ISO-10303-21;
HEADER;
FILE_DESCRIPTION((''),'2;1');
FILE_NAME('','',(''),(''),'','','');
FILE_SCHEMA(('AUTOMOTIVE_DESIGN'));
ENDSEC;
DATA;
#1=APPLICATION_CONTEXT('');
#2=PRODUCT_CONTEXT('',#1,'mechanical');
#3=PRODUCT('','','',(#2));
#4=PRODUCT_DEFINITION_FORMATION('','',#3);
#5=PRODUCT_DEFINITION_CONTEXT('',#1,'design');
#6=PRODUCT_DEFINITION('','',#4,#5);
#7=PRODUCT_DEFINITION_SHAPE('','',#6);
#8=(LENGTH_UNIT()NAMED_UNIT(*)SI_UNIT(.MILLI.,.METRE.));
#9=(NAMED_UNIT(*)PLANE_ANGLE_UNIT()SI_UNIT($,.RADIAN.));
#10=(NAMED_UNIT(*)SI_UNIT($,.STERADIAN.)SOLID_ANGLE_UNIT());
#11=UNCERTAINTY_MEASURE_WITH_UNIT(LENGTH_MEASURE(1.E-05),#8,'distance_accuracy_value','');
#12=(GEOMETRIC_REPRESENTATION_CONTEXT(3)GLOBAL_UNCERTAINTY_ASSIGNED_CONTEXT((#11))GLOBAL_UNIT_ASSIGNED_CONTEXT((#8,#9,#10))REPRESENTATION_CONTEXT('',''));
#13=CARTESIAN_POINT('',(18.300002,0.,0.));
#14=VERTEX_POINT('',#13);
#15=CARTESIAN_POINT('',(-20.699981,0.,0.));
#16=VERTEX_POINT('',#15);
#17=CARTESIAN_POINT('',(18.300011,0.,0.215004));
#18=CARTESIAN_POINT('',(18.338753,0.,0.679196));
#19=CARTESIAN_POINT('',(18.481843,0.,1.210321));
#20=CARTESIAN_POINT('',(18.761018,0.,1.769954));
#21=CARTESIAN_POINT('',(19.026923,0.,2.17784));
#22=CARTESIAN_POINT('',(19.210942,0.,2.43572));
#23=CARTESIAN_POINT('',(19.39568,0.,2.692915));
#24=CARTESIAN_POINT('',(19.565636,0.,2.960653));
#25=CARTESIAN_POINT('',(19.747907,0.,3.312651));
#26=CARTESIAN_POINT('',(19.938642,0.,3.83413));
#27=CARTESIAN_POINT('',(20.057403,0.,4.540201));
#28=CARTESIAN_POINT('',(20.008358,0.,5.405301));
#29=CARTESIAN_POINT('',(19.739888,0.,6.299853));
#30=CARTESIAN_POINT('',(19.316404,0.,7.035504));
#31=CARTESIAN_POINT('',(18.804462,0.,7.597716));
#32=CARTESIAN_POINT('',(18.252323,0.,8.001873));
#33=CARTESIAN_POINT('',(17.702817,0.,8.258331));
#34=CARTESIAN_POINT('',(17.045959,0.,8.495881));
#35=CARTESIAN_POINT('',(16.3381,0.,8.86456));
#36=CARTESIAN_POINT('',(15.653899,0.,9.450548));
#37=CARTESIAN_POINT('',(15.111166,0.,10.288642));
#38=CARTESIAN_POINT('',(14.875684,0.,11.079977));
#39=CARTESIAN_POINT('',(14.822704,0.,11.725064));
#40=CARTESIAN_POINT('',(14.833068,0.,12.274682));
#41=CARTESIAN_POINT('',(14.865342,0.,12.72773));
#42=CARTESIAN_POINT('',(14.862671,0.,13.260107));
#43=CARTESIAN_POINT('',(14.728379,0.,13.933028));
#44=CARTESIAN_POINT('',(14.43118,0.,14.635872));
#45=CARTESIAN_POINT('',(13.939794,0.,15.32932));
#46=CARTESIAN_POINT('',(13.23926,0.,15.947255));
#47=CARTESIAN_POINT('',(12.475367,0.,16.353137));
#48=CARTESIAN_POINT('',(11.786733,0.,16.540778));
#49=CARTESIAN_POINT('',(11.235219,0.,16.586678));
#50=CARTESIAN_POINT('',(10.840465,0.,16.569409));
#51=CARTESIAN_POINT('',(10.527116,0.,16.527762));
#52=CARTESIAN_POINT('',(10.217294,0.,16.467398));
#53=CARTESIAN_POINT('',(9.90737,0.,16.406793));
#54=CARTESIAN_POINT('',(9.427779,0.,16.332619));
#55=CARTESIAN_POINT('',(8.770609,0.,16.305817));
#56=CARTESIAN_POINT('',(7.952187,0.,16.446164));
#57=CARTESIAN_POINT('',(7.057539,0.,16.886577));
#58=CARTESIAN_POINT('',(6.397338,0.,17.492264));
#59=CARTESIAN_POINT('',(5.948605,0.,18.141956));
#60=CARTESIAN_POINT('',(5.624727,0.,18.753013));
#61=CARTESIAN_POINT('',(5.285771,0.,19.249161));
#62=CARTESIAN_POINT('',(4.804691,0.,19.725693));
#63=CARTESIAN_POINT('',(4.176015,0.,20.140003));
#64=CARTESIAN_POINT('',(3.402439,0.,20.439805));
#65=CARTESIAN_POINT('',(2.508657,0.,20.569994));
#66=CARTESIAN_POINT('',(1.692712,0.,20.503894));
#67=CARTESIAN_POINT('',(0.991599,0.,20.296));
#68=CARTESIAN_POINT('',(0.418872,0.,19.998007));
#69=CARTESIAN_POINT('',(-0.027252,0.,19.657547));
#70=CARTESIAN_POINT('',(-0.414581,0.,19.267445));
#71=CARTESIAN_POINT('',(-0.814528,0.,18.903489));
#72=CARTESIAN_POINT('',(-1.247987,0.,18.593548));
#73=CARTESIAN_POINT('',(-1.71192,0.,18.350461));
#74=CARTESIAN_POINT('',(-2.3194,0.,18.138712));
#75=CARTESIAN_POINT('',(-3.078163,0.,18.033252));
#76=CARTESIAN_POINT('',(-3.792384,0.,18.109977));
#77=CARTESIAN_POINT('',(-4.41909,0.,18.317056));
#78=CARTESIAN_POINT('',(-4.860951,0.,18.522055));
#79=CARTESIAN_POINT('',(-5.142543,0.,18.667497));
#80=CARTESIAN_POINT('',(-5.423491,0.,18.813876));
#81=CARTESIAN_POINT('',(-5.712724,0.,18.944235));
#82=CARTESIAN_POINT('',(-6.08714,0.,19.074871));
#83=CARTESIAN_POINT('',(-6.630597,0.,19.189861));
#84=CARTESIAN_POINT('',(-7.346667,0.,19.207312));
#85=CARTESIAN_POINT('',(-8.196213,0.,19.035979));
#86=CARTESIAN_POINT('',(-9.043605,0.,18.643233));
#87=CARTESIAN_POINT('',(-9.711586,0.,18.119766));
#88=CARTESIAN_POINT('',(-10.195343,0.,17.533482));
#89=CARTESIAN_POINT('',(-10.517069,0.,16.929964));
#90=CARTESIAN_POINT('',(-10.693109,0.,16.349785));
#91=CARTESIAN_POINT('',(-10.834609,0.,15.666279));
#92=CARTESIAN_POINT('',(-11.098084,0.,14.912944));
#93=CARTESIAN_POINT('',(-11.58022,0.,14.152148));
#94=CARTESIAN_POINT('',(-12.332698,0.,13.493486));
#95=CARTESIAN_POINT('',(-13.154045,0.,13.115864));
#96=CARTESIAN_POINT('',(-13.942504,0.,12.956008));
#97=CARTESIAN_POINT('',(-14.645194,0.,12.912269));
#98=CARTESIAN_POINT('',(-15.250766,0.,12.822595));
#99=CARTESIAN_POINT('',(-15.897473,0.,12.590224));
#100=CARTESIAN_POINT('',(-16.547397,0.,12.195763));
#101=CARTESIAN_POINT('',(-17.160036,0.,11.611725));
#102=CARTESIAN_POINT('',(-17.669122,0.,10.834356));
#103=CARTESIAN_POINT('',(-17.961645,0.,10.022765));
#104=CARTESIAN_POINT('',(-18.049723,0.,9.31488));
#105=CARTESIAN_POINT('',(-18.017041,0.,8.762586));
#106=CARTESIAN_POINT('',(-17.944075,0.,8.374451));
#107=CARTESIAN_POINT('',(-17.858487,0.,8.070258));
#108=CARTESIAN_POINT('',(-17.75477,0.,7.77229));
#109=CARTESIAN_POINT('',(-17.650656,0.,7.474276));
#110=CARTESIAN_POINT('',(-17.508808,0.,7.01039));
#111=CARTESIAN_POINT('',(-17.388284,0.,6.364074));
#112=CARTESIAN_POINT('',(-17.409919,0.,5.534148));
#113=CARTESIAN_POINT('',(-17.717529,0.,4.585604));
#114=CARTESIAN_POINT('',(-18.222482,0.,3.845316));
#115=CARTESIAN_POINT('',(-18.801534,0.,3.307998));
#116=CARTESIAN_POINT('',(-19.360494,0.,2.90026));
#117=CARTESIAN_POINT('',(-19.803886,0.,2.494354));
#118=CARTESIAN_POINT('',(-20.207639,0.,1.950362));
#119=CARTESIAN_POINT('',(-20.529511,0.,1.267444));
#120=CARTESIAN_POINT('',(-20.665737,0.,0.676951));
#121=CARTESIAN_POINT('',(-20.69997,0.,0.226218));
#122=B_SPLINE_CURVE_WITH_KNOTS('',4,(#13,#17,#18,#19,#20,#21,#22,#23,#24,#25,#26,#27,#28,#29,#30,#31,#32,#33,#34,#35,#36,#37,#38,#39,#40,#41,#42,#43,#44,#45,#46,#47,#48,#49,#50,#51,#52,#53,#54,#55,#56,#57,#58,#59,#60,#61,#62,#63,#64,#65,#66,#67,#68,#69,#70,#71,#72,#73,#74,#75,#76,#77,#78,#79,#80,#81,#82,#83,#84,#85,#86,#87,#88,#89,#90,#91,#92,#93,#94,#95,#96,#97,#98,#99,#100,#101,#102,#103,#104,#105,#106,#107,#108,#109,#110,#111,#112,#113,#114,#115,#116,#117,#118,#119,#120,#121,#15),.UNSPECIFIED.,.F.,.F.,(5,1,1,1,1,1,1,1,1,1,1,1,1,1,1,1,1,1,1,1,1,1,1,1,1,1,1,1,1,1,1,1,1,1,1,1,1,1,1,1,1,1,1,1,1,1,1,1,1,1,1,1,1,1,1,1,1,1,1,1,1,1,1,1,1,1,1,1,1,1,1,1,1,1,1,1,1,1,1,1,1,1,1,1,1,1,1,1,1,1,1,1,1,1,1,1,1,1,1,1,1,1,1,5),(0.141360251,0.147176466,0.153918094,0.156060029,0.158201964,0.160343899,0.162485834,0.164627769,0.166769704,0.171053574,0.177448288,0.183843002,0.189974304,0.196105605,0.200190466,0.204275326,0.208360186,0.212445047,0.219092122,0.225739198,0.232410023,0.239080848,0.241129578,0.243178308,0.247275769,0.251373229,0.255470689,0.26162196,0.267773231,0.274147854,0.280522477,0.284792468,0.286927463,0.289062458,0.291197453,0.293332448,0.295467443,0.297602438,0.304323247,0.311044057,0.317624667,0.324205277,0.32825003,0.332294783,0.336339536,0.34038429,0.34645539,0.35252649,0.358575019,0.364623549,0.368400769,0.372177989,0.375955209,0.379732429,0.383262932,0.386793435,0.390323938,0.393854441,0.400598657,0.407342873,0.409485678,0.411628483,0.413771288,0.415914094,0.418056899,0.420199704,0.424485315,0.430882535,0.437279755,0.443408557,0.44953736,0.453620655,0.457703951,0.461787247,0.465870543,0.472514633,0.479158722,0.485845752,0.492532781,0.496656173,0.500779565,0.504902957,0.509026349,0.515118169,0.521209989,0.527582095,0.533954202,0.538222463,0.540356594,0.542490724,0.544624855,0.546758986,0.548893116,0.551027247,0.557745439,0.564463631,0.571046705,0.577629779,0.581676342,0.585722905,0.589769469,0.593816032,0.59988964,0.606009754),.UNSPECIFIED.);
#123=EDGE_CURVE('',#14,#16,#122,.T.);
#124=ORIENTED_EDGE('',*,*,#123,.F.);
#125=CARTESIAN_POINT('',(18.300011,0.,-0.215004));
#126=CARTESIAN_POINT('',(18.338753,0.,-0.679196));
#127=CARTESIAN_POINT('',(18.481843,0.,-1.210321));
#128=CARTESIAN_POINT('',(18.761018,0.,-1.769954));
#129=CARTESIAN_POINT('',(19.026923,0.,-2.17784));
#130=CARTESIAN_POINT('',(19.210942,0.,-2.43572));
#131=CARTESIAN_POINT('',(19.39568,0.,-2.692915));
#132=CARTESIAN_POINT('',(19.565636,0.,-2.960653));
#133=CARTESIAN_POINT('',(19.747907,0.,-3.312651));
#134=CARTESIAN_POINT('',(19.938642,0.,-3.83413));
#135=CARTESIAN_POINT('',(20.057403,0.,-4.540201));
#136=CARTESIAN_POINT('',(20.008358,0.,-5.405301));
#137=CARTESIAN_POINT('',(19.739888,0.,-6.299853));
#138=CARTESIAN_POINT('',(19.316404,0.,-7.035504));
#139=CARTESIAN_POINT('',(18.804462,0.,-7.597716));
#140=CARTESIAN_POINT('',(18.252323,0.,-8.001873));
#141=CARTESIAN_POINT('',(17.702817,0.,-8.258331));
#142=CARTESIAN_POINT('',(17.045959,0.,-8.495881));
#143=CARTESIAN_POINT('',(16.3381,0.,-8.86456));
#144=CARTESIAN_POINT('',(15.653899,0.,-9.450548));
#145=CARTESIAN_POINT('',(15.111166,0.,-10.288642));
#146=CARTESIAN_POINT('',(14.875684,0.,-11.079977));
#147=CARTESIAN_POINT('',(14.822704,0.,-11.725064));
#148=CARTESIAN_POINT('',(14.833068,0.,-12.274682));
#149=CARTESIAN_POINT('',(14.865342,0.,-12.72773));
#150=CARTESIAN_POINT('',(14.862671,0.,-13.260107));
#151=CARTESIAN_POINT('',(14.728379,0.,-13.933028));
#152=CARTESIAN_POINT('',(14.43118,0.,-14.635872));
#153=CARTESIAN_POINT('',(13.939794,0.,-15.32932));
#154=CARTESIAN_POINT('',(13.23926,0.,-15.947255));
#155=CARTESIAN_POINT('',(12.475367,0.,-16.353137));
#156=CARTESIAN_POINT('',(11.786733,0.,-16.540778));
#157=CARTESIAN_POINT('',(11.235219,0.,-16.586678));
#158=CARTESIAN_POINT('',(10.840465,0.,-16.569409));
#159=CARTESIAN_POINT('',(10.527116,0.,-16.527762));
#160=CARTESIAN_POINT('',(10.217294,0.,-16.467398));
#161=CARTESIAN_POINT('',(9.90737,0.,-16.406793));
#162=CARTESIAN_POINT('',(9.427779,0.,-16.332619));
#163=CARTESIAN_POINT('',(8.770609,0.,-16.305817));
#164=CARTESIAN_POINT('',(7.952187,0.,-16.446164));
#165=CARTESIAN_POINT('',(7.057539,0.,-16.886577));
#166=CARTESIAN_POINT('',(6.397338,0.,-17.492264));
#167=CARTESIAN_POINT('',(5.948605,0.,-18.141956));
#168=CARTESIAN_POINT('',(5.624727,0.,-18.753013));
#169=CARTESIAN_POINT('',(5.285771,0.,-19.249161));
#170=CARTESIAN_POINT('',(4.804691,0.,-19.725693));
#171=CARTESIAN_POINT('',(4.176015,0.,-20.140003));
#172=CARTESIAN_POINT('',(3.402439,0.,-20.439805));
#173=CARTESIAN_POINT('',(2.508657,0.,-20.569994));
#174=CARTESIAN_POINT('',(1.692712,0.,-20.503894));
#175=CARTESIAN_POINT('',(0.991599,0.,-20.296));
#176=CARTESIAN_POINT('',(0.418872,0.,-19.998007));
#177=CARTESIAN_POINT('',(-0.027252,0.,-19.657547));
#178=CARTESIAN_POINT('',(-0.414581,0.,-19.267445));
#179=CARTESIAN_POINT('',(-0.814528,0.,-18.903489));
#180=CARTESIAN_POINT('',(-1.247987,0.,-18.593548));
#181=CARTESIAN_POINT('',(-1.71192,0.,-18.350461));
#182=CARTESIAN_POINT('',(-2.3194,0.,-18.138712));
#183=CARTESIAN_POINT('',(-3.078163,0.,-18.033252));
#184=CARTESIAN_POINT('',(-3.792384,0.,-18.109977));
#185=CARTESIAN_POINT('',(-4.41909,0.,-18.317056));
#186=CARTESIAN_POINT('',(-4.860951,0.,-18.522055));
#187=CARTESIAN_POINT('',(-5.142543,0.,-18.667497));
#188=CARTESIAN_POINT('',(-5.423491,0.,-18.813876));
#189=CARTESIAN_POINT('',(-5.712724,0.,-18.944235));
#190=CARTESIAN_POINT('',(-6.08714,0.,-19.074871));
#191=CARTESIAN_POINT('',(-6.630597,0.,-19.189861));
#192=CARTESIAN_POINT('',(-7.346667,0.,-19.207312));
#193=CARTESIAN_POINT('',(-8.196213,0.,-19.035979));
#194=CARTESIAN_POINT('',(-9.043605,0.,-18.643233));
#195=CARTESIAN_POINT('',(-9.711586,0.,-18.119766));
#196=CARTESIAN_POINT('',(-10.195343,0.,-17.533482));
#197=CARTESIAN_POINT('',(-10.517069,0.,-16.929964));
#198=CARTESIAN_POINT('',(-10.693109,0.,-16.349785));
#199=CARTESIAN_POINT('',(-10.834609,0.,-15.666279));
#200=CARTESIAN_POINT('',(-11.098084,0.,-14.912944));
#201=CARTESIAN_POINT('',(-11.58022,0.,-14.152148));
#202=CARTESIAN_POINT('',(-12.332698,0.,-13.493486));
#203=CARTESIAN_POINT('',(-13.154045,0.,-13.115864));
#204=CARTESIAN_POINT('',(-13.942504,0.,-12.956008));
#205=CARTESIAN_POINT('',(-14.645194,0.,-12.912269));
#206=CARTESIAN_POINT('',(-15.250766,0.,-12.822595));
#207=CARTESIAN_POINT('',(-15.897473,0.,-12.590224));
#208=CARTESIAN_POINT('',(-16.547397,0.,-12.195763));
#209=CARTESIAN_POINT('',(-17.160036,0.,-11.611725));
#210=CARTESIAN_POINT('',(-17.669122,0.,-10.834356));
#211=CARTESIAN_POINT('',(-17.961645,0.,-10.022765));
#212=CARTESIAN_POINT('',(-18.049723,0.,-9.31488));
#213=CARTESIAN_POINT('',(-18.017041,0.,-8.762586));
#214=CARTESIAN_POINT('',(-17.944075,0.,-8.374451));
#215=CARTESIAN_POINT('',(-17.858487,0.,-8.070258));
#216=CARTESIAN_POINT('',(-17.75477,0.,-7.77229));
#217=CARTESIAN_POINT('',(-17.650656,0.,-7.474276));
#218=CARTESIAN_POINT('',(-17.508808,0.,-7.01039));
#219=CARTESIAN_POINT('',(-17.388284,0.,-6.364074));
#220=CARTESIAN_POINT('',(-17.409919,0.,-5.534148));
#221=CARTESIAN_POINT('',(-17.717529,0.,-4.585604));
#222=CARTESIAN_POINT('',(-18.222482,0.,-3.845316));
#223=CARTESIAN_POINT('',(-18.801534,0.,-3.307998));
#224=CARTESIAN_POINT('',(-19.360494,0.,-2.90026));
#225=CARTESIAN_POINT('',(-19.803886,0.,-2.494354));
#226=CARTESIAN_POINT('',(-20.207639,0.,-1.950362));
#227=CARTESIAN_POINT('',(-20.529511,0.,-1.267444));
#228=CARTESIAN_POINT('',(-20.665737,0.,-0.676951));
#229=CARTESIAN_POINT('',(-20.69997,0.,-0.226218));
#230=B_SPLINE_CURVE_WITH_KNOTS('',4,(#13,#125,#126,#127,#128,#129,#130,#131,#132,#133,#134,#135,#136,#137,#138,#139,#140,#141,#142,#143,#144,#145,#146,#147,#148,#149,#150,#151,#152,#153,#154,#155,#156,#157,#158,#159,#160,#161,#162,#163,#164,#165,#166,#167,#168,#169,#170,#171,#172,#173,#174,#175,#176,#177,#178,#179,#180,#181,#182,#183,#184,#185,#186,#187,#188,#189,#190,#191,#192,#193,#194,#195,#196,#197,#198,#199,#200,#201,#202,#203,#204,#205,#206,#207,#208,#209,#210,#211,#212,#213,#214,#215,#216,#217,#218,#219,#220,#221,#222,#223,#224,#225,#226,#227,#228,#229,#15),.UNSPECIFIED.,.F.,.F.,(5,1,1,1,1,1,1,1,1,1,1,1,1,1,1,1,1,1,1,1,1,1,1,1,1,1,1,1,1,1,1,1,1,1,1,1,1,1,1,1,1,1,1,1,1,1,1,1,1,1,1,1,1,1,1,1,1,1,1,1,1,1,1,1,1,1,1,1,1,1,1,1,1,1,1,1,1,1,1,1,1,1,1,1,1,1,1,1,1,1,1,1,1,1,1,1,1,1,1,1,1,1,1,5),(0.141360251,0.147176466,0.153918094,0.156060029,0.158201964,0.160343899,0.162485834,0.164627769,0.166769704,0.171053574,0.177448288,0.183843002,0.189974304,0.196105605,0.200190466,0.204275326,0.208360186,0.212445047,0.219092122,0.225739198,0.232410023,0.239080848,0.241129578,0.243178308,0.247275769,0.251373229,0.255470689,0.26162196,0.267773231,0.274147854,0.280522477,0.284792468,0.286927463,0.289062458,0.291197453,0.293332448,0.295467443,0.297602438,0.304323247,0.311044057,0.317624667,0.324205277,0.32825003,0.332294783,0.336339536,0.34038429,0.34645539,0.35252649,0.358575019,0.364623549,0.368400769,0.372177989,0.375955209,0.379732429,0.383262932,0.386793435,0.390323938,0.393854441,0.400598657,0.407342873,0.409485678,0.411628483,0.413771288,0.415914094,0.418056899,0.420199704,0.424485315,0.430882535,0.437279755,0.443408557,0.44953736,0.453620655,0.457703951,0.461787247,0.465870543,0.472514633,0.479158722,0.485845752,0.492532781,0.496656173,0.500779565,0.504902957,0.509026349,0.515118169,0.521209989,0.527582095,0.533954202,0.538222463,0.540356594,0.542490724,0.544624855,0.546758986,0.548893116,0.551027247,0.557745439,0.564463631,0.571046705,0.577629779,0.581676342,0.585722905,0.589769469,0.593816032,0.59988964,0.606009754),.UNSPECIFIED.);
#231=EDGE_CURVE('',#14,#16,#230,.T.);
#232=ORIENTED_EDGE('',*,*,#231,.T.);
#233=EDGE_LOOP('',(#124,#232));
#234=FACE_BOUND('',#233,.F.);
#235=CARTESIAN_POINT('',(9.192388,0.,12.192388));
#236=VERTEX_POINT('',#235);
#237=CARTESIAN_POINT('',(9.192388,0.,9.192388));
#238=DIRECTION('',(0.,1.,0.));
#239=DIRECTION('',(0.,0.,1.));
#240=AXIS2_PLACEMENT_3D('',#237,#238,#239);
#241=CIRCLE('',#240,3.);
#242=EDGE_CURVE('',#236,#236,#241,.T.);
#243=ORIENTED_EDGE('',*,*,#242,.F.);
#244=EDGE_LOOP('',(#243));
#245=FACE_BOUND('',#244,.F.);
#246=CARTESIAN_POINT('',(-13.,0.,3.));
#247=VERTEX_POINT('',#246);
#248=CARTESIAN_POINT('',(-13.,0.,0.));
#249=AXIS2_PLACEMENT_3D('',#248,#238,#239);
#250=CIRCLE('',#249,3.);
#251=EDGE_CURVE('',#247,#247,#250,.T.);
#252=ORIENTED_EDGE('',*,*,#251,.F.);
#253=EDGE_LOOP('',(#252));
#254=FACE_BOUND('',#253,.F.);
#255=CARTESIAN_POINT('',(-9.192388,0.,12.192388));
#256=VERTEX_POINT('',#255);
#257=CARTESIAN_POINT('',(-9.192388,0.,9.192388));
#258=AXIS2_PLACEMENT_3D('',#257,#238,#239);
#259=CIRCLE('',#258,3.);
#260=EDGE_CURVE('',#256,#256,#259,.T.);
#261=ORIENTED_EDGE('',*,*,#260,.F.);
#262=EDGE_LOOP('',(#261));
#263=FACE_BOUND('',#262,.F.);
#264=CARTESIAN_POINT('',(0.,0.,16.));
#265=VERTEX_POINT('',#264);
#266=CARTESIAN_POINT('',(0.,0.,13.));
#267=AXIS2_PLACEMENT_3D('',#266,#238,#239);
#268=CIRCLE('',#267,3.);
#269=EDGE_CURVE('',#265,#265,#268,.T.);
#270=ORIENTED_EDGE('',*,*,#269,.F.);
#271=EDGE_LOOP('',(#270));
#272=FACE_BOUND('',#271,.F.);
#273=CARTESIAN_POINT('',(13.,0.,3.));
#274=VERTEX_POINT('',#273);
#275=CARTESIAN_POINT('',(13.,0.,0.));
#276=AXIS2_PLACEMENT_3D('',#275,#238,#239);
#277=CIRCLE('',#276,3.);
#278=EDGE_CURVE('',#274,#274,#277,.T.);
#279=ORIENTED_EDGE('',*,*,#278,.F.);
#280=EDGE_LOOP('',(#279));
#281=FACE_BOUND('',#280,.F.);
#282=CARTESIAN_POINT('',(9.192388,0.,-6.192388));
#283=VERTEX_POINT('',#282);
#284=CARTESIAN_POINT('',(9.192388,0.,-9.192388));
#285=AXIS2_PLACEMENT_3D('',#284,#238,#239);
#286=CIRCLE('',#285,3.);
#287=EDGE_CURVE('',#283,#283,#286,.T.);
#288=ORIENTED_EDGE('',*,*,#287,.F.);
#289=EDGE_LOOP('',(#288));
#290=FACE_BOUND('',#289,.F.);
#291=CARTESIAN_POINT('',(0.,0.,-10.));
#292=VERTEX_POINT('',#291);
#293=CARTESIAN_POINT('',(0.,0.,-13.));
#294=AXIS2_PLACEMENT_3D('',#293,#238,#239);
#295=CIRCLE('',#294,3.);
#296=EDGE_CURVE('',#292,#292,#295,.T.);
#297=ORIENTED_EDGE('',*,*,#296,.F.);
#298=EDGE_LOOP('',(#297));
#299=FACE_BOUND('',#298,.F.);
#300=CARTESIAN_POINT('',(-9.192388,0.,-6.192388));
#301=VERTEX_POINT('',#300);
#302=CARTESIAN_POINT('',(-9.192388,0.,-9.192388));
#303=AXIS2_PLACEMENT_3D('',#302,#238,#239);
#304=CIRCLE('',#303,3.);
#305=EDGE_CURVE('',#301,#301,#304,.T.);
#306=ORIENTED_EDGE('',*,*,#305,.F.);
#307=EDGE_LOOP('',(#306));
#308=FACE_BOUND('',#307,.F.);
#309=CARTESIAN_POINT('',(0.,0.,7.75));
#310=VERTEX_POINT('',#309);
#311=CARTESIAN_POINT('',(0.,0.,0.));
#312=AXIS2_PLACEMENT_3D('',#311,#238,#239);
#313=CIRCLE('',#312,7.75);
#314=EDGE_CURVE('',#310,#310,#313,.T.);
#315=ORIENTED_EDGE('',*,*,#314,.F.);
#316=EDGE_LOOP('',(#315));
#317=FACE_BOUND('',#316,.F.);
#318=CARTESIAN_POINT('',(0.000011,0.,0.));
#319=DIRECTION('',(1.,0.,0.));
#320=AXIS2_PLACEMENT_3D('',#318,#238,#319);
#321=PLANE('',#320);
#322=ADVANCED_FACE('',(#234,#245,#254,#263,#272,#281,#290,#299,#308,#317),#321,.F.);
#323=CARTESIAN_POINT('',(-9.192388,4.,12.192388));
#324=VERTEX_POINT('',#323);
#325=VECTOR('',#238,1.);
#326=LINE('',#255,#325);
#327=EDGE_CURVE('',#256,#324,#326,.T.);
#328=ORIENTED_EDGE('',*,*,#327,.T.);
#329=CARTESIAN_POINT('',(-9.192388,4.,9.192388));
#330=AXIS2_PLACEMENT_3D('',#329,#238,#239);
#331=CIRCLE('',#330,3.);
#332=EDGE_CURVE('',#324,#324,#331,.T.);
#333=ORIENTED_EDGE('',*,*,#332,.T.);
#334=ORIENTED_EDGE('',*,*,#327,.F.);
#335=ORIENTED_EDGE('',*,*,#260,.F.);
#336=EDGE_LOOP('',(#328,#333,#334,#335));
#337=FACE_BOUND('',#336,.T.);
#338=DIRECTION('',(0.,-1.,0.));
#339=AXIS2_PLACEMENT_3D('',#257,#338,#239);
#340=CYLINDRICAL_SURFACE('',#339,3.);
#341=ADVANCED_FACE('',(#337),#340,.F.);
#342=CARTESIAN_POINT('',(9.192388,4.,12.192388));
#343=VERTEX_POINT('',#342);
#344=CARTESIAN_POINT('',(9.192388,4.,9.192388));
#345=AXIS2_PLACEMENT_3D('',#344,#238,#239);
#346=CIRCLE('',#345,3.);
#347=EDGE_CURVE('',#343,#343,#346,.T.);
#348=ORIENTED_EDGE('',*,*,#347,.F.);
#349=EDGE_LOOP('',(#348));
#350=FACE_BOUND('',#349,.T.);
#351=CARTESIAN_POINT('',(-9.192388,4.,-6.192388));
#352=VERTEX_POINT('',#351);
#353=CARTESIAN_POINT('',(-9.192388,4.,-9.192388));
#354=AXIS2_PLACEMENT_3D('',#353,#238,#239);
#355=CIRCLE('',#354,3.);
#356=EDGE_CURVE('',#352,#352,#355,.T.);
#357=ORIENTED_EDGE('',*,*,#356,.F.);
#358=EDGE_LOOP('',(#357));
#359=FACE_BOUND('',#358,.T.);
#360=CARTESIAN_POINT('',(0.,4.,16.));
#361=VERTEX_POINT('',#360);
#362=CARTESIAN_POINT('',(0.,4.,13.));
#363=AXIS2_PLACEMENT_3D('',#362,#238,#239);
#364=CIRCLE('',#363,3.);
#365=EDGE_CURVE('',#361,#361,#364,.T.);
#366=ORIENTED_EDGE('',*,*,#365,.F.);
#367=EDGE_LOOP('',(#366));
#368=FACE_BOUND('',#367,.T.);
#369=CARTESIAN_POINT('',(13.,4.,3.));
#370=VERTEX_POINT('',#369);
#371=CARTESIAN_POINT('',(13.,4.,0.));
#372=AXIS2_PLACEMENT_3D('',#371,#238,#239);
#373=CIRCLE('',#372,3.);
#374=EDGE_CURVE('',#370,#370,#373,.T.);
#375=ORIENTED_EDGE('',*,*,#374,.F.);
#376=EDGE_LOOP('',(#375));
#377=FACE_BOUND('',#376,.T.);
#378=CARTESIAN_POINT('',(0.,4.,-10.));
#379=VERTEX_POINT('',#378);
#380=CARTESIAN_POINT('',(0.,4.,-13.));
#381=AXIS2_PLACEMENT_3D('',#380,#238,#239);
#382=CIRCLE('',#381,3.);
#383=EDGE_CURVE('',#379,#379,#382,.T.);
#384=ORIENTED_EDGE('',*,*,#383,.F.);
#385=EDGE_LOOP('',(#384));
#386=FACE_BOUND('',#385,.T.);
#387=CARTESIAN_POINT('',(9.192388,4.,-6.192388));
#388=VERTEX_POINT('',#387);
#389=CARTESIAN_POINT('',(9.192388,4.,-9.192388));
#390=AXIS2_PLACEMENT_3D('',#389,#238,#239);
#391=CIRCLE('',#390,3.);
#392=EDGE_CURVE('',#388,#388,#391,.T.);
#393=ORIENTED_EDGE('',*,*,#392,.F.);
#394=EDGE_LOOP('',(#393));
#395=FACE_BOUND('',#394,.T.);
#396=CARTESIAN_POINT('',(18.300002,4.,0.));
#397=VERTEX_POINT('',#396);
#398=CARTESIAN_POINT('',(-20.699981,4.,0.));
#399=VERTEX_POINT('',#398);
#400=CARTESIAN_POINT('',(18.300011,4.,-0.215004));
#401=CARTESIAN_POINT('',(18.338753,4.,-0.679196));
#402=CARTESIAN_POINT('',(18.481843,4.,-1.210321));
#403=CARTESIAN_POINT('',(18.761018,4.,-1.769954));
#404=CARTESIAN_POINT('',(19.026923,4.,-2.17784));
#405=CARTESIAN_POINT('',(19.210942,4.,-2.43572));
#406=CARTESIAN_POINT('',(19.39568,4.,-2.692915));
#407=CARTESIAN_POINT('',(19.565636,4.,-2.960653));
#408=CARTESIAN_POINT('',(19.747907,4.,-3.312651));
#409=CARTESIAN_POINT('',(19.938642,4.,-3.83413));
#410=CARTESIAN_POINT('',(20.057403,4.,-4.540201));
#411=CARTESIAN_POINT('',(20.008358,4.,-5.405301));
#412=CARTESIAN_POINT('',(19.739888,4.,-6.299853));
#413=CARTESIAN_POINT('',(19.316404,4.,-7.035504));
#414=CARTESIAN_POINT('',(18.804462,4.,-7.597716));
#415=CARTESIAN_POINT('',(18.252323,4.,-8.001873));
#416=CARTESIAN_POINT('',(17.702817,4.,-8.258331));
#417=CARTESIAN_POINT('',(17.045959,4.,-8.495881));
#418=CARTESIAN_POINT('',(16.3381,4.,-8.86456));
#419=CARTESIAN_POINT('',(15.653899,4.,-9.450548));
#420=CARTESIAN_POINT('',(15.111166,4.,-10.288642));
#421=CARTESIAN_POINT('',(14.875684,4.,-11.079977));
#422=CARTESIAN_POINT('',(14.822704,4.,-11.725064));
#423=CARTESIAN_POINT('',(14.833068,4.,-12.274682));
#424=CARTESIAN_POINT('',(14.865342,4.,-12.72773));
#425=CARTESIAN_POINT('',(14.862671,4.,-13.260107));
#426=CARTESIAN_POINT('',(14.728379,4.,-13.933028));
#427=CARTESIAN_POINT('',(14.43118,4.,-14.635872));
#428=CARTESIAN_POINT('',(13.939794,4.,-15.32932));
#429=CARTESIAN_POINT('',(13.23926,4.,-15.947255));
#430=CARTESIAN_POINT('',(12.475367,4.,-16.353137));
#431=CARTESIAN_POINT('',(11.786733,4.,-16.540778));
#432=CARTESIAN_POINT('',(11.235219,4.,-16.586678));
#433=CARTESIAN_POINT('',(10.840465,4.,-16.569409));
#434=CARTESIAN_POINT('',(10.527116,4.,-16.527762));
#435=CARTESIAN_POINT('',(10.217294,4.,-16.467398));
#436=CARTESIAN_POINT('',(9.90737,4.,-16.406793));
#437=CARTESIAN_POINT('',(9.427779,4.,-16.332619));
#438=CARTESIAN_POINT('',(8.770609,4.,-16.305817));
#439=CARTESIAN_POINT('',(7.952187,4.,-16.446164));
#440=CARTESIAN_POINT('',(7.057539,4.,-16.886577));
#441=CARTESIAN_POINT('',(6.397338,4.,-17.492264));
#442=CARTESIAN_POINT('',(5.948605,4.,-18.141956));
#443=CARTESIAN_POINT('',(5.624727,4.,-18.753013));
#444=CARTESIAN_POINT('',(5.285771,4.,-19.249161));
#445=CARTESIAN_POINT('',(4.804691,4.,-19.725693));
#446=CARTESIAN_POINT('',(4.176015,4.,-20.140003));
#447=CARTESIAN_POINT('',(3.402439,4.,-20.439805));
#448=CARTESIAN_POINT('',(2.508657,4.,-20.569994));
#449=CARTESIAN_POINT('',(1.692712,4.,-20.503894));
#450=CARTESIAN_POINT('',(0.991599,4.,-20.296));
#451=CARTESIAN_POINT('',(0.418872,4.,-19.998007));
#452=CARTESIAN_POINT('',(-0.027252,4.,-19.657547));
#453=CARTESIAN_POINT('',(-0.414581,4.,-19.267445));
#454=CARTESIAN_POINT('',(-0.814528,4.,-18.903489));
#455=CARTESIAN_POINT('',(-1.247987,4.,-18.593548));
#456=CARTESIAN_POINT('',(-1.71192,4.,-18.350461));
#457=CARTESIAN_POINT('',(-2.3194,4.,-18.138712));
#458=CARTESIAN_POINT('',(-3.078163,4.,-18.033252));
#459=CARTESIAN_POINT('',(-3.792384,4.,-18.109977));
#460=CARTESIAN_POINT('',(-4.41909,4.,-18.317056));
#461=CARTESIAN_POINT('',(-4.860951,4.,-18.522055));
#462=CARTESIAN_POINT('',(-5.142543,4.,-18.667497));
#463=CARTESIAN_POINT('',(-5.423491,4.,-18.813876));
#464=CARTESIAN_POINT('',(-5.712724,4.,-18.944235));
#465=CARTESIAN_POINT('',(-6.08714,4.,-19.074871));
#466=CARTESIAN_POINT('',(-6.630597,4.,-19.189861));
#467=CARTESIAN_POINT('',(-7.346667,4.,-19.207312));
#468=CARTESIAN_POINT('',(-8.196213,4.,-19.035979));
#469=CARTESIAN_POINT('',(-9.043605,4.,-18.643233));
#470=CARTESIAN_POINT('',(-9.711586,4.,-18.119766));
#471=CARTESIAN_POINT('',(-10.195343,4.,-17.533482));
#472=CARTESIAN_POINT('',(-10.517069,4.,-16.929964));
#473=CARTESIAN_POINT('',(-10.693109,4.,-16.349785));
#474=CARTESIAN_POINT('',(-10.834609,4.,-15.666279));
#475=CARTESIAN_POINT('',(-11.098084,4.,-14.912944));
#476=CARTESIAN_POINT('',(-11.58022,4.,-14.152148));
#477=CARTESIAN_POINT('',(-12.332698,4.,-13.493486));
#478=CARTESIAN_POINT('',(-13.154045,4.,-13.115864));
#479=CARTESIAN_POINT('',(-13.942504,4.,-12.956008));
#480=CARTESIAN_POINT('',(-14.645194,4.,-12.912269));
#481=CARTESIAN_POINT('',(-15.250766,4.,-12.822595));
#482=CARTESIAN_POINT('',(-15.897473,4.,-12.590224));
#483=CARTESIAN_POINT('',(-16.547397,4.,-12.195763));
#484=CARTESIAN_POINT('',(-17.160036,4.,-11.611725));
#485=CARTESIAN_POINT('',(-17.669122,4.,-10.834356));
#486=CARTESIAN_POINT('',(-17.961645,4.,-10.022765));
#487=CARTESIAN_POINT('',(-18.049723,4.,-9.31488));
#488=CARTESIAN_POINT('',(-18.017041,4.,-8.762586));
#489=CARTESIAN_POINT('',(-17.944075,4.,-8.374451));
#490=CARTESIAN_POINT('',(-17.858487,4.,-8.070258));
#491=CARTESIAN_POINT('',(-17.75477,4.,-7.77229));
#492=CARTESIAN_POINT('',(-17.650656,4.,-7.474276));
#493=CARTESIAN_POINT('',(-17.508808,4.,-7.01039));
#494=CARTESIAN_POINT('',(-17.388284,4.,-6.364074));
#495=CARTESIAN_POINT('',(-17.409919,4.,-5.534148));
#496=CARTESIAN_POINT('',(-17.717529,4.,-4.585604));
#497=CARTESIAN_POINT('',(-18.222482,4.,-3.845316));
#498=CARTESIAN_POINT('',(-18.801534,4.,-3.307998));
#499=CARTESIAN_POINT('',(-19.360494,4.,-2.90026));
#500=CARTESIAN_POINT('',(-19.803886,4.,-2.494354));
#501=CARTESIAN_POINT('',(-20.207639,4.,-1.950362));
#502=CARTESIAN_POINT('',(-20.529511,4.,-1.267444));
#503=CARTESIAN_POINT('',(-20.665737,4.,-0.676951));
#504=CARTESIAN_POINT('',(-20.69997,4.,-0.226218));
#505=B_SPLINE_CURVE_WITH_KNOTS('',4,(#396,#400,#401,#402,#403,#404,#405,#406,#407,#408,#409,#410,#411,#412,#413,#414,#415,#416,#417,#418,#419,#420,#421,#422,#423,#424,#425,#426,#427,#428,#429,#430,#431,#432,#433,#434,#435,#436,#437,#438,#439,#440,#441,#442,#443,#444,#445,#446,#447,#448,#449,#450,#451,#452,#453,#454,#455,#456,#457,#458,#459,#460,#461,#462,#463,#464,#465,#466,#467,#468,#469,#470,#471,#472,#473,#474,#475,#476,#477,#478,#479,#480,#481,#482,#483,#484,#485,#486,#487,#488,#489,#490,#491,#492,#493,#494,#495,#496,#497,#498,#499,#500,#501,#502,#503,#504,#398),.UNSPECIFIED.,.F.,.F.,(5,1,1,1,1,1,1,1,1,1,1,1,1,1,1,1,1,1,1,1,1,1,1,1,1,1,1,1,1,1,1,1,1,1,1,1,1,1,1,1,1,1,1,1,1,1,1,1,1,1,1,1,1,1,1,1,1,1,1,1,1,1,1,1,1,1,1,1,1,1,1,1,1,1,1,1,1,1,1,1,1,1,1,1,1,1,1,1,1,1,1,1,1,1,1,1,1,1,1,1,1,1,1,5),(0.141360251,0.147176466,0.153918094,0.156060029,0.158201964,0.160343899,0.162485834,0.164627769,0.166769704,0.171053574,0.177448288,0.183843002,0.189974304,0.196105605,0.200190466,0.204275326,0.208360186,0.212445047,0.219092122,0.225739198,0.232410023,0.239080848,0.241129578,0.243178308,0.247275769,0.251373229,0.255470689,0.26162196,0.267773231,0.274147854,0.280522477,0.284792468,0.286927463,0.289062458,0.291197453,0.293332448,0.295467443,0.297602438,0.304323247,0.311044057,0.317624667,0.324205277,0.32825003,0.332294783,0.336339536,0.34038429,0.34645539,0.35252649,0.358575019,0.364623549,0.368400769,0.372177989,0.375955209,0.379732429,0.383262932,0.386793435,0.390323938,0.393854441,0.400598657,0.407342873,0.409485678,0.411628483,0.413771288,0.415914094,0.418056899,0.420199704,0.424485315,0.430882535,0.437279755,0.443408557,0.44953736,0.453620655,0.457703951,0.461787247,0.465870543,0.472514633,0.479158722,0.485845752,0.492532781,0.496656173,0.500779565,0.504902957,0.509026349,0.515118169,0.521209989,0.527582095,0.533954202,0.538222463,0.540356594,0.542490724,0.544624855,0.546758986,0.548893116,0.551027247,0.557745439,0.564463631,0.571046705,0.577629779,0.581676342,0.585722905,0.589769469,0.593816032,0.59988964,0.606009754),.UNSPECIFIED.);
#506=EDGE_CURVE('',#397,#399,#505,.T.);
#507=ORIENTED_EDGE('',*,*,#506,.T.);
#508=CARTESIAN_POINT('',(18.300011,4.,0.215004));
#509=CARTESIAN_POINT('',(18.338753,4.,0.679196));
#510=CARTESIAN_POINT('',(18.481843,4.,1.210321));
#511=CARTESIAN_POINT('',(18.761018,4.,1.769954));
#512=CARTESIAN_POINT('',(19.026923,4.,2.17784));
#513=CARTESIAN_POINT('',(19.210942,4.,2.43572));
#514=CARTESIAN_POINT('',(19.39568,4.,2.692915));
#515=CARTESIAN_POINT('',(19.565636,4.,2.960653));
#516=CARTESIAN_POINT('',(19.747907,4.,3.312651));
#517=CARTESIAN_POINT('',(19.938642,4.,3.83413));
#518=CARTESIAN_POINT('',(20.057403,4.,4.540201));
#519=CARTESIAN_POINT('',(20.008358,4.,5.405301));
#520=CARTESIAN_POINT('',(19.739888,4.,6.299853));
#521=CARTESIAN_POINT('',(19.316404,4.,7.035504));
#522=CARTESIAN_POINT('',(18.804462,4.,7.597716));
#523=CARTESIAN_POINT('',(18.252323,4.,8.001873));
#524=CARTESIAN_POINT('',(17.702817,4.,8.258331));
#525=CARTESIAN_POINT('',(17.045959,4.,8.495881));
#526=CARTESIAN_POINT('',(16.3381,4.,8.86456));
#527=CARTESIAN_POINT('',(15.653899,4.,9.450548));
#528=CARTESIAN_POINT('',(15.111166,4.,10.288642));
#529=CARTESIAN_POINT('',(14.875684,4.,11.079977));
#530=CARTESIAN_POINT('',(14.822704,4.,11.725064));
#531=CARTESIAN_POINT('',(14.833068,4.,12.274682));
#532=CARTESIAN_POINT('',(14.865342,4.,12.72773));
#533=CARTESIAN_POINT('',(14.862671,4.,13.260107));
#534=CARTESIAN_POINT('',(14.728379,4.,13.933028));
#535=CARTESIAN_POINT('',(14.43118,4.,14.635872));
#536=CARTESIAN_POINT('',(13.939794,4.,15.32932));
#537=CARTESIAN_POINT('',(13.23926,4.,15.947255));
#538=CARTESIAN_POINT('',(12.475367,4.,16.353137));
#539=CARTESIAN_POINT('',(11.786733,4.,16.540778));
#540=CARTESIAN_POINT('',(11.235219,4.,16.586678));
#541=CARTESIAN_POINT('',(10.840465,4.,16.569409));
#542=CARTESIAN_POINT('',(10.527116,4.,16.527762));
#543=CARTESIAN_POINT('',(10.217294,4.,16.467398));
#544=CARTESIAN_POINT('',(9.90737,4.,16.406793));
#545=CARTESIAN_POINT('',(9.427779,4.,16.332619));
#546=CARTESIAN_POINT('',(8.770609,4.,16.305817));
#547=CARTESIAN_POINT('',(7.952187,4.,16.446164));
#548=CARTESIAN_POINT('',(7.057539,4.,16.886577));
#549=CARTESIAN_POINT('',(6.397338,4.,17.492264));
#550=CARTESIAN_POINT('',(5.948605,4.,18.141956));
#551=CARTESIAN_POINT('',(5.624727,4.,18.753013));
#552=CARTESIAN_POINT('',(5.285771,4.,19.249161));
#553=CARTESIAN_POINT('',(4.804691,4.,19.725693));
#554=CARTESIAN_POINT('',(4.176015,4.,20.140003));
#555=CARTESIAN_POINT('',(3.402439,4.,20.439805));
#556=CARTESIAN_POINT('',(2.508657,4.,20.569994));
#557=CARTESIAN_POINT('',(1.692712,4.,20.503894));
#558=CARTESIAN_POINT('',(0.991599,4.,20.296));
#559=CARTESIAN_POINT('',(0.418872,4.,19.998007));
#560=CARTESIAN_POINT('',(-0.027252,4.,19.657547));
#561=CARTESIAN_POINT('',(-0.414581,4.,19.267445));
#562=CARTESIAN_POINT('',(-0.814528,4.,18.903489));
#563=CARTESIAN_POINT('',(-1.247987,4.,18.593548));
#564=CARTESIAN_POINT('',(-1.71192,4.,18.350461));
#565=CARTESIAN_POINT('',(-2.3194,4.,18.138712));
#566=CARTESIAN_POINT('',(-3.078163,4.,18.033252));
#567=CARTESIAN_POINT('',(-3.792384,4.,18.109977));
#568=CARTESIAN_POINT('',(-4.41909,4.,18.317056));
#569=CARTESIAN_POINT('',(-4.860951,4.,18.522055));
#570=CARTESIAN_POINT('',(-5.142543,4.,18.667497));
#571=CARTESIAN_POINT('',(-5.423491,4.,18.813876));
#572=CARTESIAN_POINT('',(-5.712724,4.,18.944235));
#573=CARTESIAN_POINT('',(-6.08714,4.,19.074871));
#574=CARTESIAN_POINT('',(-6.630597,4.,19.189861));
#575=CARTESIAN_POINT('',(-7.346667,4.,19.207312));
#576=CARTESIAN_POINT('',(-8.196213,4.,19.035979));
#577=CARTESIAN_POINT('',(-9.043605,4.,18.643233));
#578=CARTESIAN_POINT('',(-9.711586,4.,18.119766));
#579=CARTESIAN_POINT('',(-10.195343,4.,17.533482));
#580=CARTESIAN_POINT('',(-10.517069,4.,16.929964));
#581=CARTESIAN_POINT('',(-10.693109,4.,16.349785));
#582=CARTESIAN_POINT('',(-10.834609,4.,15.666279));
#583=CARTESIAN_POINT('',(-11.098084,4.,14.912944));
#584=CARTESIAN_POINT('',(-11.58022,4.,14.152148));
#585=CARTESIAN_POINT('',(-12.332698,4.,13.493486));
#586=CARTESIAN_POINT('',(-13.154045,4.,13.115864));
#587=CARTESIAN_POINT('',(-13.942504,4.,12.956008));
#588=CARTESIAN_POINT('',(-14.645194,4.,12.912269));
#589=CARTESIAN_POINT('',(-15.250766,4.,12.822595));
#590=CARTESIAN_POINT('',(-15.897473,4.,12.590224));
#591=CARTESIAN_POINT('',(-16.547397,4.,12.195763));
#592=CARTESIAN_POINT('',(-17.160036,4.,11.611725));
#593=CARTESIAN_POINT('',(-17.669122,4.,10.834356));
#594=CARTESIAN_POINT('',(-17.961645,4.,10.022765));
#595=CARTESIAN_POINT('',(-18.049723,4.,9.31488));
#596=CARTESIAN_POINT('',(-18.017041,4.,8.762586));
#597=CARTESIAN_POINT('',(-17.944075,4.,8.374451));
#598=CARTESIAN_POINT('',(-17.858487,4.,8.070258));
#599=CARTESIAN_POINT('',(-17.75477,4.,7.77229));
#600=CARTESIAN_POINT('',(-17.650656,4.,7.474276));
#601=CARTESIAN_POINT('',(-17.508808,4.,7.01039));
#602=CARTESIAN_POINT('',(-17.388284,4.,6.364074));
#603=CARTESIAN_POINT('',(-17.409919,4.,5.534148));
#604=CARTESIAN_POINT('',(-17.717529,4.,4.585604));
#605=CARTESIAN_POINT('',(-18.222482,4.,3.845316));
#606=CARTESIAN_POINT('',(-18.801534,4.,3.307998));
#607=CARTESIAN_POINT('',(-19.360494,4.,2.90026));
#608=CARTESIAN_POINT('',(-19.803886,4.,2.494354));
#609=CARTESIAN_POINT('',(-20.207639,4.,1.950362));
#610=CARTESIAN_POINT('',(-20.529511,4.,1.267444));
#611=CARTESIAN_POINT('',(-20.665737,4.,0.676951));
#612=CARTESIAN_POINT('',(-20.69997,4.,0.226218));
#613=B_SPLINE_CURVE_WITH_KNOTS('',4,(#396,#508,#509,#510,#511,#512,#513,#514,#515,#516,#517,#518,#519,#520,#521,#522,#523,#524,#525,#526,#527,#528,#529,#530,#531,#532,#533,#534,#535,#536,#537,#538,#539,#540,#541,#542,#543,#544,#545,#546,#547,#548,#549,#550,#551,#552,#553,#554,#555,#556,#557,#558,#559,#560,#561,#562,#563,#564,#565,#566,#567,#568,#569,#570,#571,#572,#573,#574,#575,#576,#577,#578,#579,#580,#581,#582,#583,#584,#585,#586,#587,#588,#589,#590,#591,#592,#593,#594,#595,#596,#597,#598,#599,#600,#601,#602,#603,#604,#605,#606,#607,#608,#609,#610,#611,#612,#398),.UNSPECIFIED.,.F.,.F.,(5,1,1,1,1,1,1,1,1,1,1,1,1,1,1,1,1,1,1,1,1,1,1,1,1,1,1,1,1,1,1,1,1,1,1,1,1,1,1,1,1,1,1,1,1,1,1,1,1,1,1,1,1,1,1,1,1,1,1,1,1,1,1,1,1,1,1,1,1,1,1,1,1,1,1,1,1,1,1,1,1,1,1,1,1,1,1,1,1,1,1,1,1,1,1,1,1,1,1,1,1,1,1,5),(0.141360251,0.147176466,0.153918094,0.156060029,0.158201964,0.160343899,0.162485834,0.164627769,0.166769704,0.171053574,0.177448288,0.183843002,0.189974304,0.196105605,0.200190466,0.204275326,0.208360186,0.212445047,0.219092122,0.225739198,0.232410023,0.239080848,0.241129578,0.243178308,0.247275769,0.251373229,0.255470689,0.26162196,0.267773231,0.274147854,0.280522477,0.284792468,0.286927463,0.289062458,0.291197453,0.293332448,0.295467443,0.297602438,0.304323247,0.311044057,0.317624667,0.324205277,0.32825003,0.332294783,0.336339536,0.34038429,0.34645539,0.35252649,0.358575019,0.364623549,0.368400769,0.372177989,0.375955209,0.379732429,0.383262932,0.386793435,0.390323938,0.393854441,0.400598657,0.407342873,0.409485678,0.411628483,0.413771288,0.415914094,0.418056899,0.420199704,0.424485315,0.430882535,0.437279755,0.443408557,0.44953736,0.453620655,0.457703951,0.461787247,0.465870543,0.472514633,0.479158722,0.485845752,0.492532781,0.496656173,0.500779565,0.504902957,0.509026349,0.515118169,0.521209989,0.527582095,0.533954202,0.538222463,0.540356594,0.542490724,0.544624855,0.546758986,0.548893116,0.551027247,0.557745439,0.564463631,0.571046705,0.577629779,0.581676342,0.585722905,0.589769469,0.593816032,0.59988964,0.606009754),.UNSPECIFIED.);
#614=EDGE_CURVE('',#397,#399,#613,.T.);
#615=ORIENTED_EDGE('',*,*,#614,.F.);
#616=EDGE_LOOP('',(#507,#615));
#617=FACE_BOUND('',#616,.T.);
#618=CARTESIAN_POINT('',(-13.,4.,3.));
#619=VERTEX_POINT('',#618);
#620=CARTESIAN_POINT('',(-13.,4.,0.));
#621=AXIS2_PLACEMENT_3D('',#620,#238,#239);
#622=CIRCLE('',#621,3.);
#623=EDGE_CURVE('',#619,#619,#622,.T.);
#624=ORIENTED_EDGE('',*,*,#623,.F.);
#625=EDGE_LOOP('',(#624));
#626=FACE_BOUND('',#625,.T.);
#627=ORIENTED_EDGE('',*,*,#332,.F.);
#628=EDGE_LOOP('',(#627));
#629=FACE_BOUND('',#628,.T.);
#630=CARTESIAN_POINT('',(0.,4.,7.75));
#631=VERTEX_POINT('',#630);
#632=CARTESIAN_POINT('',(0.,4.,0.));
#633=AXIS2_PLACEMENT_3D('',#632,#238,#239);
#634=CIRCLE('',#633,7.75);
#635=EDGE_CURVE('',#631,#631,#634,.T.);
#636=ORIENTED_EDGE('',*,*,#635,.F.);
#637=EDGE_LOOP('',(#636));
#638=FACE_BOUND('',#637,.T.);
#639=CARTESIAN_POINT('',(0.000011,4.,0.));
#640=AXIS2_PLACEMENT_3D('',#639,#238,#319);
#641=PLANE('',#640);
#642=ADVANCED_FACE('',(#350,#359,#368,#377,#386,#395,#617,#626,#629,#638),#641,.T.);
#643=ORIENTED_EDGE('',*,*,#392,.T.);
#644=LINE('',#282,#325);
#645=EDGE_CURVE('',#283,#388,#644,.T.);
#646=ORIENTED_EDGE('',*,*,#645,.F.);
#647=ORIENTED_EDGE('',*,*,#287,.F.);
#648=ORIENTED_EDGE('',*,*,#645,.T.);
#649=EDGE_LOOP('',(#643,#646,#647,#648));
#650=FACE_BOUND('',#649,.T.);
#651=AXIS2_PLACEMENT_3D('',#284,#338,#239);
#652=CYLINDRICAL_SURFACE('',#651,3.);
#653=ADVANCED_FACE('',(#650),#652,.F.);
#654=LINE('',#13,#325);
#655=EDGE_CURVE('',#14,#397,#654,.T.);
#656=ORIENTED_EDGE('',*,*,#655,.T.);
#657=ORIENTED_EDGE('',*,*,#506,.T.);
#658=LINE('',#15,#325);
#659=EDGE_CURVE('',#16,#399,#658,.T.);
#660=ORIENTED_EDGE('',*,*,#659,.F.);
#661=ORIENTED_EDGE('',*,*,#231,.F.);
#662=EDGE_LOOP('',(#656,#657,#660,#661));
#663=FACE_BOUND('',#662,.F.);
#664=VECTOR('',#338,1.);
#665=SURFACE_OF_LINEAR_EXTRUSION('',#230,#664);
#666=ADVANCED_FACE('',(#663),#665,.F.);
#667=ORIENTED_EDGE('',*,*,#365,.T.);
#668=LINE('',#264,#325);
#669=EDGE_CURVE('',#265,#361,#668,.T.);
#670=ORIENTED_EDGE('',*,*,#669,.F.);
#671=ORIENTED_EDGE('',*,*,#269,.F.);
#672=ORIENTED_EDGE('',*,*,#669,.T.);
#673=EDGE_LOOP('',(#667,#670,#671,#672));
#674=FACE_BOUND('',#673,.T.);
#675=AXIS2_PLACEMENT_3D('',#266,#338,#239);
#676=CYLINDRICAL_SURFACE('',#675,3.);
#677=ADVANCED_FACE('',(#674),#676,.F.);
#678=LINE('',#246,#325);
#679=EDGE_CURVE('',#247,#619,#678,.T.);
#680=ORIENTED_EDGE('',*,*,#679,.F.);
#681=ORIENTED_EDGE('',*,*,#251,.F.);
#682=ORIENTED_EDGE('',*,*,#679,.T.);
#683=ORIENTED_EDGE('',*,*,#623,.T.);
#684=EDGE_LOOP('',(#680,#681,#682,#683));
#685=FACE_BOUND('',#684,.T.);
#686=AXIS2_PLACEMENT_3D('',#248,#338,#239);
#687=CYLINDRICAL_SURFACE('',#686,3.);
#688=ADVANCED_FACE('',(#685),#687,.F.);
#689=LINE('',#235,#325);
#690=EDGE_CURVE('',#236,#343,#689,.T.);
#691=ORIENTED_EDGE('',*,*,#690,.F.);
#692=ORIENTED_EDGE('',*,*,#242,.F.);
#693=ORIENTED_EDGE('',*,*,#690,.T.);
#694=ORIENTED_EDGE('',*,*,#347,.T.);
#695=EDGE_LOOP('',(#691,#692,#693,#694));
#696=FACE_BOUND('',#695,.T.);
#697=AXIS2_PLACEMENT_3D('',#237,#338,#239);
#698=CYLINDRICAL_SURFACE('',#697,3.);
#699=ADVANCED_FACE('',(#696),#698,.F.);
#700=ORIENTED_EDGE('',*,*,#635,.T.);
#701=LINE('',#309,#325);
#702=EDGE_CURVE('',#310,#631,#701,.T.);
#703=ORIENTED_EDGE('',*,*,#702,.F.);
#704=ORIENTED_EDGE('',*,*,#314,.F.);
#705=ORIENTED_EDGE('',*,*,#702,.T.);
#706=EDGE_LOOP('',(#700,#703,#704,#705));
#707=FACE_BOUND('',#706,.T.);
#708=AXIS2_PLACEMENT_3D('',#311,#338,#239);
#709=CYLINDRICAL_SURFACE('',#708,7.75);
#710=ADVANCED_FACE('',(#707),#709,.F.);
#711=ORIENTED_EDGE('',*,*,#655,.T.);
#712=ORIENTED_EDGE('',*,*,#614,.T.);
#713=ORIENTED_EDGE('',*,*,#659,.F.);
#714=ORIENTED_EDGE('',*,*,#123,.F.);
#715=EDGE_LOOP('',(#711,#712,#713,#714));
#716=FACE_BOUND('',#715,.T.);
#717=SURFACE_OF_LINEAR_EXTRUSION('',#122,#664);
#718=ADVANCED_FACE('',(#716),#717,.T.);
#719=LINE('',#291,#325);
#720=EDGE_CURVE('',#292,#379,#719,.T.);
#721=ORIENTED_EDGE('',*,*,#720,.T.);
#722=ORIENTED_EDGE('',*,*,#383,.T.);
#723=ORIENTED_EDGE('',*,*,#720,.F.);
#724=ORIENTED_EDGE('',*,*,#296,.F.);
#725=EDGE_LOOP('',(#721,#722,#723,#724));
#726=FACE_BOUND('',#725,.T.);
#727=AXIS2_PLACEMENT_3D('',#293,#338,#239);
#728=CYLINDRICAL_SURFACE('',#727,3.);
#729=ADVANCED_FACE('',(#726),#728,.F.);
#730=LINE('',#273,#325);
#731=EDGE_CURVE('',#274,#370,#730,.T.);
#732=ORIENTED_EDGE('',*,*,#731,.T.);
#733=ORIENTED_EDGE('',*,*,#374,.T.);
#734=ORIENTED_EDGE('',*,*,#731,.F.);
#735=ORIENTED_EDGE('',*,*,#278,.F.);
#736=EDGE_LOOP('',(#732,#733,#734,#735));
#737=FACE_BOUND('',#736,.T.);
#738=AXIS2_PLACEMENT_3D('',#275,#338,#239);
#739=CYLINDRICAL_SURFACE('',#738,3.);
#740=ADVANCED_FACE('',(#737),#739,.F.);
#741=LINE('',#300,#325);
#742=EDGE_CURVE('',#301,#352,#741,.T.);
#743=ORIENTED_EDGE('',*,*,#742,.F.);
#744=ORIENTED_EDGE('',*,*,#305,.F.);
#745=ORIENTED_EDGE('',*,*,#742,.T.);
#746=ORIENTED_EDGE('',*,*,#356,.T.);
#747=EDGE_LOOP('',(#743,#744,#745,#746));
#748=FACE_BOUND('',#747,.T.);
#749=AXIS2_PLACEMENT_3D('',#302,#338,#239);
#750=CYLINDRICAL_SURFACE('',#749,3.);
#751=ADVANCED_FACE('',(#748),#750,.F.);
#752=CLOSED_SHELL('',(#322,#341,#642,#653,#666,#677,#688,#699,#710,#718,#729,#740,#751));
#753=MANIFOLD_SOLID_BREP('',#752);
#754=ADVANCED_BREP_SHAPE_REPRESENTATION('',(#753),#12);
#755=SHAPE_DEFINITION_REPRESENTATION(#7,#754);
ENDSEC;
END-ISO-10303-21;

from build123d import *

# Parameters (mm, degrees)
SKETCH5_R           = 7.75
SKETCH5_R_2         = 3
BOSS_EXTRUDE1_DEPTH = 4


with BuildPart() as part:
    # Sketch5 → Boss-Extrude1 (new body)
    with BuildSketch(Plane(origin=(0, 0, 0), x_dir=(1, 0, 0), z_dir=(0, 1, 0))):
        with BuildLine():
            add(Edge.make_bspline(
                [(18.300001887, 0), (18.300010705, 0.215003642), (18.338753267, 0.679195711), (18.481842575, 1.210321363), (18.761018022, 1.769953886), (19.026922674, 2.177839709), (19.210941823, 2.435719572), (19.395680187, 2.692915456), (19.565636036, 2.960653153), (19.747906504, 3.312651466), (19.93864247, 3.834129911), (20.057403353, 4.540200664), (20.008357851, 5.405300521), (19.73988768, 6.299853158), (19.316404426, 7.035503992), (18.804461721, 7.597715814), (18.252322537, 8.001873087), (17.702817336, 8.258330995), (17.045959095, 8.495881339), (16.33809985, 8.864560366), (15.653899025, 9.450547644), (15.111166239, 10.288642285), (14.875683836, 11.0799767), (14.822703851, 11.725063966), (14.833067746, 12.274681518), (14.865342292, 12.727729927), (14.862671279, 13.260106684), (14.72837929, 13.933027823), (14.431180013, 14.635872275), (13.939794383, 15.329319559), (13.239260177, 15.947255395), (12.47536717, 16.35313672), (11.786732938, 16.540778236), (11.235218742, 16.586678139), (10.840465401, 16.56940856), (10.527116328, 16.527762316), (10.217294205, 16.467397556), (9.907369576, 16.40679263), (9.427779331, 16.332618687), (8.77060888, 16.305817429), (7.952186843, 16.4461635), (7.05753878, 16.886576705), (6.397338254, 17.492264381), (5.948604744, 18.14195596), (5.624727499, 18.753013498), (5.285770723, 19.249160517), (4.804691328, 19.725693077), (4.176014993, 20.140002558), (3.402438751, 20.439804509), (2.508657291, 20.56999395), (1.692711777, 20.503894327), (0.991598744, 20.296000008), (0.418872155, 19.998006776), (-0.02725181, 19.65754733), (-0.414581276, 19.267445025), (-0.814528019, 18.90348851), (-1.247986951, 18.593547535), (-1.711920278, 18.350461041), (-2.319399601, 18.138711547), (-3.078163454, 18.033252029), (-3.792383587, 18.109977363), (-4.419089964, 18.317056401), (-4.860951124, 18.522055264), (-5.142543266, 18.667497448), (-5.423490802, 18.813876291), (-5.712723674, 18.944234753), (-6.087139526, 19.074870645), (-6.630597424, 19.189860926), (-7.346667059, 19.20731203), (-8.196213037, 19.035978551), (-9.043604624, 18.643233497), (-9.711585586, 18.119766073), (-10.195342802, 17.53348167), (-10.517068924, 16.929963942), (-10.693108972, 16.349784917), (-10.834609167, 15.666278533), (-11.098084342, 14.912944072), (-11.580219609, 14.152147896), (-12.332698376, 13.493485596), (-13.154045362, 13.115864382), (-13.942503997, 12.956008438), (-14.645194298, 12.912269275), (-15.250766145, 12.822594904), (-15.897472911, 12.590223912), (-16.54739671, 12.195763284), (-17.160036154, 11.61172513), (-17.669121957, 10.834355582), (-17.961644901, 10.022765221), (-18.049722961, 9.314879519), (-18.017041175, 8.762586144), (-17.944075374, 8.374451054), (-17.858487142, 8.070258258), (-17.754769799, 7.772289566), (-17.650656333, 7.474276115), (-17.50880783, 7.010389693), (-17.388284102, 6.364073981), (-17.409918688, 5.53414754), (-17.717528668, 4.585603708), (-18.222482128, 3.845315705), (-18.801533842, 3.307998155), (-19.360494017, 2.900260179), (-19.803886321, 2.494354237), (-20.207639479, 1.950362105), (-20.529511005, 1.267444047), (-20.665736565, 0.676951062), (-20.699969648, 0.226217639), (-20.699980788, 0)],
                knots=[0.141360251, 0.141360251, 0.141360251, 0.141360251, 0.141360251, 0.147176466, 0.153918094, 0.156060029, 0.158201964, 0.160343899, 0.162485834, 0.164627769, 0.166769704, 0.171053574, 0.177448288, 0.183843002, 0.189974304, 0.196105605, 0.200190466, 0.204275326, 0.208360186, 0.212445047, 0.219092122, 0.225739198, 0.232410023, 0.239080848, 0.241129578, 0.243178308, 0.247275769, 0.251373229, 0.255470689, 0.26162196, 0.267773231, 0.274147854, 0.280522477, 0.284792468, 0.286927463, 0.289062458, 0.291197453, 0.293332448, 0.295467443, 0.297602438, 0.304323247, 0.311044057, 0.317624667, 0.324205277, 0.32825003, 0.332294783, 0.336339536, 0.34038429, 0.34645539, 0.35252649, 0.358575019, 0.364623549, 0.368400769, 0.372177989, 0.375955209, 0.379732429, 0.383262932, 0.386793435, 0.390323938, 0.393854441, 0.400598657, 0.407342873, 0.409485678, 0.411628483, 0.413771288, 0.415914094, 0.418056899, 0.420199704, 0.424485315, 0.430882535, 0.437279755, 0.443408557, 0.44953736, 0.453620655, 0.457703951, 0.461787247, 0.465870543, 0.472514633, 0.479158722, 0.485845752, 0.492532781, 0.496656173, 0.500779565, 0.504902957, 0.509026349, 0.515118169, 0.521209989, 0.527582095, 0.533954202, 0.538222463, 0.540356594, 0.542490724, 0.544624855, 0.546758986, 0.548893116, 0.551027247, 0.557745439, 0.564463631, 0.571046705, 0.577629779, 0.581676342, 0.585722905, 0.589769469, 0.593816032, 0.59988964, 0.606009754, 0.606009754, 0.606009754, 0.606009754, 0.606009754], degree=4))
            add(Edge.make_bspline(
                [(18.300001887, 0), (18.300010705, -0.215003642), (18.338753267, -0.679195711), (18.481842575, -1.210321363), (18.761018022, -1.769953886), (19.026922674, -2.177839709), (19.210941823, -2.435719572), (19.395680187, -2.692915456), (19.565636036, -2.960653153), (19.747906504, -3.312651466), (19.93864247, -3.834129911), (20.057403353, -4.540200664), (20.008357851, -5.405300521), (19.73988768, -6.299853158), (19.316404426, -7.035503991), (18.804461721, -7.597715814), (18.252322537, -8.001873087), (17.702817336, -8.258330995), (17.045959095, -8.495881339), (16.33809985, -8.864560366), (15.653899025, -9.450547644), (15.111166239, -10.288642285), (14.875683836, -11.0799767), (14.822703851, -11.725063966), (14.833067746, -12.274681518), (14.865342292, -12.727729927), (14.862671279, -13.260106684), (14.72837929, -13.933027823), (14.431180013, -14.635872275), (13.939794383, -15.329319559), (13.239260177, -15.947255395), (12.47536717, -16.35313672), (11.786732938, -16.540778236), (11.235218742, -16.586678139), (10.840465401, -16.56940856), (10.527116328, -16.527762316), (10.217294205, -16.467397556), (9.907369576, -16.40679263), (9.427779331, -16.332618687), (8.77060888, -16.305817429), (7.952186843, -16.4461635), (7.05753878, -16.886576705), (6.397338254, -17.492264381), (5.948604744, -18.14195596), (5.624727499, -18.753013498), (5.285770723, -19.249160517), (4.804691328, -19.725693077), (4.176014993, -20.140002558), (3.402438751, -20.439804509), (2.508657291, -20.56999395), (1.692711777, -20.503894327), (0.991598744, -20.296000008), (0.418872155, -19.998006776), (-0.02725181, -19.65754733), (-0.414581276, -19.267445025), (-0.814528019, -18.90348851), (-1.247986951, -18.593547535), (-1.711920278, -18.350461041), (-2.319399601, -18.138711547), (-3.078163454, -18.033252029), (-3.792383587, -18.109977363), (-4.419089964, -18.317056401), (-4.860951124, -18.522055264), (-5.142543266, -18.667497448), (-5.423490802, -18.813876291), (-5.712723674, -18.944234753), (-6.087139526, -19.074870645), (-6.630597424, -19.189860926), (-7.346667059, -19.20731203), (-8.196213037, -19.035978551), (-9.043604624, -18.643233497), (-9.711585586, -18.119766073), (-10.195342802, -17.53348167), (-10.517068924, -16.929963942), (-10.693108972, -16.349784917), (-10.834609167, -15.666278533), (-11.098084342, -14.912944072), (-11.580219609, -14.152147896), (-12.332698376, -13.493485596), (-13.154045362, -13.115864382), (-13.942503997, -12.956008438), (-14.645194298, -12.912269275), (-15.250766145, -12.822594904), (-15.897472911, -12.590223912), (-16.54739671, -12.195763284), (-17.160036154, -11.61172513), (-17.669121957, -10.834355582), (-17.961644901, -10.022765221), (-18.049722961, -9.314879519), (-18.017041175, -8.762586144), (-17.944075374, -8.374451054), (-17.858487142, -8.070258258), (-17.754769799, -7.772289566), (-17.650656333, -7.474276115), (-17.50880783, -7.010389693), (-17.388284102, -6.364073981), (-17.409918688, -5.53414754), (-17.717528668, -4.585603708), (-18.222482128, -3.845315705), (-18.801533842, -3.307998155), (-19.360494017, -2.900260179), (-19.803886321, -2.494354237), (-20.207639479, -1.950362105), (-20.529511005, -1.267444047), (-20.665736565, -0.676951062), (-20.699969648, -0.226217639), (-20.699980788, 0)],
                knots=[0.141360251, 0.141360251, 0.141360251, 0.141360251, 0.141360251, 0.147176466, 0.153918094, 0.156060029, 0.158201964, 0.160343899, 0.162485834, 0.164627769, 0.166769704, 0.171053574, 0.177448288, 0.183843002, 0.189974304, 0.196105605, 0.200190466, 0.204275326, 0.208360186, 0.212445047, 0.219092122, 0.225739198, 0.232410023, 0.239080848, 0.241129578, 0.243178308, 0.247275769, 0.251373229, 0.255470689, 0.26162196, 0.267773231, 0.274147854, 0.280522477, 0.284792468, 0.286927463, 0.289062458, 0.291197453, 0.293332448, 0.295467443, 0.297602438, 0.304323247, 0.311044057, 0.317624667, 0.324205277, 0.32825003, 0.332294783, 0.336339536, 0.34038429, 0.34645539, 0.35252649, 0.358575019, 0.364623549, 0.368400769, 0.372177989, 0.375955209, 0.379732429, 0.383262932, 0.386793435, 0.390323938, 0.393854441, 0.400598657, 0.407342873, 0.409485678, 0.411628483, 0.413771288, 0.415914094, 0.418056899, 0.420199704, 0.424485315, 0.430882535, 0.437279755, 0.443408557, 0.44953736, 0.453620655, 0.457703951, 0.461787247, 0.465870543, 0.472514633, 0.479158722, 0.485845752, 0.492532781, 0.496656173, 0.500779565, 0.504902957, 0.509026349, 0.515118169, 0.521209989, 0.527582095, 0.533954202, 0.538222463, 0.540356594, 0.542490724, 0.544624855, 0.546758986, 0.548893116, 0.551027247, 0.557745439, 0.564463631, 0.571046705, 0.577629779, 0.581676342, 0.585722905, 0.589769469, 0.593816032, 0.59988964, 0.606009754, 0.606009754, 0.606009754, 0.606009754, 0.606009754], degree=4))
        make_face()
        with Locations(Location((0, 0, 0), (0, 0, 270))):
            Circle(SKETCH5_R, mode=Mode.SUBTRACT)
        with Locations(Location((-9.192388155, -9.192388155, 0), (0, 0, 270))):
            Circle(SKETCH5_R_2, mode=Mode.SUBTRACT)
        with Locations(Location((0, -13, 0), (0, 0, 270))):
            Circle(SKETCH5_R_2, mode=Mode.SUBTRACT)
        with Locations(Location((9.192388155, -9.192388155, 0), (0, 0, 270))):
            Circle(SKETCH5_R_2, mode=Mode.SUBTRACT)
        with Locations(Location((13, 0, 0), (0, 0, 270))):
            Circle(SKETCH5_R_2, mode=Mode.SUBTRACT)
        with Locations(Location((9.192388155, 9.192388155, 0), (0, 0, 270))):
            Circle(SKETCH5_R_2, mode=Mode.SUBTRACT)
        with Locations(Location((0, 13, 0), (0, 0, 270))):
            Circle(SKETCH5_R_2, mode=Mode.SUBTRACT)
        with Locations(Location((-9.192388155, 9.192388155, 0), (0, 0, 270))):
            Circle(SKETCH5_R_2, mode=Mode.SUBTRACT)
        with Locations(Location((-13, 0, 0), (0, 0, 270))):
            Circle(SKETCH5_R_2, mode=Mode.SUBTRACT)
    extrude(amount=BOSS_EXTRUDE1_DEPTH)


solid = part.part
